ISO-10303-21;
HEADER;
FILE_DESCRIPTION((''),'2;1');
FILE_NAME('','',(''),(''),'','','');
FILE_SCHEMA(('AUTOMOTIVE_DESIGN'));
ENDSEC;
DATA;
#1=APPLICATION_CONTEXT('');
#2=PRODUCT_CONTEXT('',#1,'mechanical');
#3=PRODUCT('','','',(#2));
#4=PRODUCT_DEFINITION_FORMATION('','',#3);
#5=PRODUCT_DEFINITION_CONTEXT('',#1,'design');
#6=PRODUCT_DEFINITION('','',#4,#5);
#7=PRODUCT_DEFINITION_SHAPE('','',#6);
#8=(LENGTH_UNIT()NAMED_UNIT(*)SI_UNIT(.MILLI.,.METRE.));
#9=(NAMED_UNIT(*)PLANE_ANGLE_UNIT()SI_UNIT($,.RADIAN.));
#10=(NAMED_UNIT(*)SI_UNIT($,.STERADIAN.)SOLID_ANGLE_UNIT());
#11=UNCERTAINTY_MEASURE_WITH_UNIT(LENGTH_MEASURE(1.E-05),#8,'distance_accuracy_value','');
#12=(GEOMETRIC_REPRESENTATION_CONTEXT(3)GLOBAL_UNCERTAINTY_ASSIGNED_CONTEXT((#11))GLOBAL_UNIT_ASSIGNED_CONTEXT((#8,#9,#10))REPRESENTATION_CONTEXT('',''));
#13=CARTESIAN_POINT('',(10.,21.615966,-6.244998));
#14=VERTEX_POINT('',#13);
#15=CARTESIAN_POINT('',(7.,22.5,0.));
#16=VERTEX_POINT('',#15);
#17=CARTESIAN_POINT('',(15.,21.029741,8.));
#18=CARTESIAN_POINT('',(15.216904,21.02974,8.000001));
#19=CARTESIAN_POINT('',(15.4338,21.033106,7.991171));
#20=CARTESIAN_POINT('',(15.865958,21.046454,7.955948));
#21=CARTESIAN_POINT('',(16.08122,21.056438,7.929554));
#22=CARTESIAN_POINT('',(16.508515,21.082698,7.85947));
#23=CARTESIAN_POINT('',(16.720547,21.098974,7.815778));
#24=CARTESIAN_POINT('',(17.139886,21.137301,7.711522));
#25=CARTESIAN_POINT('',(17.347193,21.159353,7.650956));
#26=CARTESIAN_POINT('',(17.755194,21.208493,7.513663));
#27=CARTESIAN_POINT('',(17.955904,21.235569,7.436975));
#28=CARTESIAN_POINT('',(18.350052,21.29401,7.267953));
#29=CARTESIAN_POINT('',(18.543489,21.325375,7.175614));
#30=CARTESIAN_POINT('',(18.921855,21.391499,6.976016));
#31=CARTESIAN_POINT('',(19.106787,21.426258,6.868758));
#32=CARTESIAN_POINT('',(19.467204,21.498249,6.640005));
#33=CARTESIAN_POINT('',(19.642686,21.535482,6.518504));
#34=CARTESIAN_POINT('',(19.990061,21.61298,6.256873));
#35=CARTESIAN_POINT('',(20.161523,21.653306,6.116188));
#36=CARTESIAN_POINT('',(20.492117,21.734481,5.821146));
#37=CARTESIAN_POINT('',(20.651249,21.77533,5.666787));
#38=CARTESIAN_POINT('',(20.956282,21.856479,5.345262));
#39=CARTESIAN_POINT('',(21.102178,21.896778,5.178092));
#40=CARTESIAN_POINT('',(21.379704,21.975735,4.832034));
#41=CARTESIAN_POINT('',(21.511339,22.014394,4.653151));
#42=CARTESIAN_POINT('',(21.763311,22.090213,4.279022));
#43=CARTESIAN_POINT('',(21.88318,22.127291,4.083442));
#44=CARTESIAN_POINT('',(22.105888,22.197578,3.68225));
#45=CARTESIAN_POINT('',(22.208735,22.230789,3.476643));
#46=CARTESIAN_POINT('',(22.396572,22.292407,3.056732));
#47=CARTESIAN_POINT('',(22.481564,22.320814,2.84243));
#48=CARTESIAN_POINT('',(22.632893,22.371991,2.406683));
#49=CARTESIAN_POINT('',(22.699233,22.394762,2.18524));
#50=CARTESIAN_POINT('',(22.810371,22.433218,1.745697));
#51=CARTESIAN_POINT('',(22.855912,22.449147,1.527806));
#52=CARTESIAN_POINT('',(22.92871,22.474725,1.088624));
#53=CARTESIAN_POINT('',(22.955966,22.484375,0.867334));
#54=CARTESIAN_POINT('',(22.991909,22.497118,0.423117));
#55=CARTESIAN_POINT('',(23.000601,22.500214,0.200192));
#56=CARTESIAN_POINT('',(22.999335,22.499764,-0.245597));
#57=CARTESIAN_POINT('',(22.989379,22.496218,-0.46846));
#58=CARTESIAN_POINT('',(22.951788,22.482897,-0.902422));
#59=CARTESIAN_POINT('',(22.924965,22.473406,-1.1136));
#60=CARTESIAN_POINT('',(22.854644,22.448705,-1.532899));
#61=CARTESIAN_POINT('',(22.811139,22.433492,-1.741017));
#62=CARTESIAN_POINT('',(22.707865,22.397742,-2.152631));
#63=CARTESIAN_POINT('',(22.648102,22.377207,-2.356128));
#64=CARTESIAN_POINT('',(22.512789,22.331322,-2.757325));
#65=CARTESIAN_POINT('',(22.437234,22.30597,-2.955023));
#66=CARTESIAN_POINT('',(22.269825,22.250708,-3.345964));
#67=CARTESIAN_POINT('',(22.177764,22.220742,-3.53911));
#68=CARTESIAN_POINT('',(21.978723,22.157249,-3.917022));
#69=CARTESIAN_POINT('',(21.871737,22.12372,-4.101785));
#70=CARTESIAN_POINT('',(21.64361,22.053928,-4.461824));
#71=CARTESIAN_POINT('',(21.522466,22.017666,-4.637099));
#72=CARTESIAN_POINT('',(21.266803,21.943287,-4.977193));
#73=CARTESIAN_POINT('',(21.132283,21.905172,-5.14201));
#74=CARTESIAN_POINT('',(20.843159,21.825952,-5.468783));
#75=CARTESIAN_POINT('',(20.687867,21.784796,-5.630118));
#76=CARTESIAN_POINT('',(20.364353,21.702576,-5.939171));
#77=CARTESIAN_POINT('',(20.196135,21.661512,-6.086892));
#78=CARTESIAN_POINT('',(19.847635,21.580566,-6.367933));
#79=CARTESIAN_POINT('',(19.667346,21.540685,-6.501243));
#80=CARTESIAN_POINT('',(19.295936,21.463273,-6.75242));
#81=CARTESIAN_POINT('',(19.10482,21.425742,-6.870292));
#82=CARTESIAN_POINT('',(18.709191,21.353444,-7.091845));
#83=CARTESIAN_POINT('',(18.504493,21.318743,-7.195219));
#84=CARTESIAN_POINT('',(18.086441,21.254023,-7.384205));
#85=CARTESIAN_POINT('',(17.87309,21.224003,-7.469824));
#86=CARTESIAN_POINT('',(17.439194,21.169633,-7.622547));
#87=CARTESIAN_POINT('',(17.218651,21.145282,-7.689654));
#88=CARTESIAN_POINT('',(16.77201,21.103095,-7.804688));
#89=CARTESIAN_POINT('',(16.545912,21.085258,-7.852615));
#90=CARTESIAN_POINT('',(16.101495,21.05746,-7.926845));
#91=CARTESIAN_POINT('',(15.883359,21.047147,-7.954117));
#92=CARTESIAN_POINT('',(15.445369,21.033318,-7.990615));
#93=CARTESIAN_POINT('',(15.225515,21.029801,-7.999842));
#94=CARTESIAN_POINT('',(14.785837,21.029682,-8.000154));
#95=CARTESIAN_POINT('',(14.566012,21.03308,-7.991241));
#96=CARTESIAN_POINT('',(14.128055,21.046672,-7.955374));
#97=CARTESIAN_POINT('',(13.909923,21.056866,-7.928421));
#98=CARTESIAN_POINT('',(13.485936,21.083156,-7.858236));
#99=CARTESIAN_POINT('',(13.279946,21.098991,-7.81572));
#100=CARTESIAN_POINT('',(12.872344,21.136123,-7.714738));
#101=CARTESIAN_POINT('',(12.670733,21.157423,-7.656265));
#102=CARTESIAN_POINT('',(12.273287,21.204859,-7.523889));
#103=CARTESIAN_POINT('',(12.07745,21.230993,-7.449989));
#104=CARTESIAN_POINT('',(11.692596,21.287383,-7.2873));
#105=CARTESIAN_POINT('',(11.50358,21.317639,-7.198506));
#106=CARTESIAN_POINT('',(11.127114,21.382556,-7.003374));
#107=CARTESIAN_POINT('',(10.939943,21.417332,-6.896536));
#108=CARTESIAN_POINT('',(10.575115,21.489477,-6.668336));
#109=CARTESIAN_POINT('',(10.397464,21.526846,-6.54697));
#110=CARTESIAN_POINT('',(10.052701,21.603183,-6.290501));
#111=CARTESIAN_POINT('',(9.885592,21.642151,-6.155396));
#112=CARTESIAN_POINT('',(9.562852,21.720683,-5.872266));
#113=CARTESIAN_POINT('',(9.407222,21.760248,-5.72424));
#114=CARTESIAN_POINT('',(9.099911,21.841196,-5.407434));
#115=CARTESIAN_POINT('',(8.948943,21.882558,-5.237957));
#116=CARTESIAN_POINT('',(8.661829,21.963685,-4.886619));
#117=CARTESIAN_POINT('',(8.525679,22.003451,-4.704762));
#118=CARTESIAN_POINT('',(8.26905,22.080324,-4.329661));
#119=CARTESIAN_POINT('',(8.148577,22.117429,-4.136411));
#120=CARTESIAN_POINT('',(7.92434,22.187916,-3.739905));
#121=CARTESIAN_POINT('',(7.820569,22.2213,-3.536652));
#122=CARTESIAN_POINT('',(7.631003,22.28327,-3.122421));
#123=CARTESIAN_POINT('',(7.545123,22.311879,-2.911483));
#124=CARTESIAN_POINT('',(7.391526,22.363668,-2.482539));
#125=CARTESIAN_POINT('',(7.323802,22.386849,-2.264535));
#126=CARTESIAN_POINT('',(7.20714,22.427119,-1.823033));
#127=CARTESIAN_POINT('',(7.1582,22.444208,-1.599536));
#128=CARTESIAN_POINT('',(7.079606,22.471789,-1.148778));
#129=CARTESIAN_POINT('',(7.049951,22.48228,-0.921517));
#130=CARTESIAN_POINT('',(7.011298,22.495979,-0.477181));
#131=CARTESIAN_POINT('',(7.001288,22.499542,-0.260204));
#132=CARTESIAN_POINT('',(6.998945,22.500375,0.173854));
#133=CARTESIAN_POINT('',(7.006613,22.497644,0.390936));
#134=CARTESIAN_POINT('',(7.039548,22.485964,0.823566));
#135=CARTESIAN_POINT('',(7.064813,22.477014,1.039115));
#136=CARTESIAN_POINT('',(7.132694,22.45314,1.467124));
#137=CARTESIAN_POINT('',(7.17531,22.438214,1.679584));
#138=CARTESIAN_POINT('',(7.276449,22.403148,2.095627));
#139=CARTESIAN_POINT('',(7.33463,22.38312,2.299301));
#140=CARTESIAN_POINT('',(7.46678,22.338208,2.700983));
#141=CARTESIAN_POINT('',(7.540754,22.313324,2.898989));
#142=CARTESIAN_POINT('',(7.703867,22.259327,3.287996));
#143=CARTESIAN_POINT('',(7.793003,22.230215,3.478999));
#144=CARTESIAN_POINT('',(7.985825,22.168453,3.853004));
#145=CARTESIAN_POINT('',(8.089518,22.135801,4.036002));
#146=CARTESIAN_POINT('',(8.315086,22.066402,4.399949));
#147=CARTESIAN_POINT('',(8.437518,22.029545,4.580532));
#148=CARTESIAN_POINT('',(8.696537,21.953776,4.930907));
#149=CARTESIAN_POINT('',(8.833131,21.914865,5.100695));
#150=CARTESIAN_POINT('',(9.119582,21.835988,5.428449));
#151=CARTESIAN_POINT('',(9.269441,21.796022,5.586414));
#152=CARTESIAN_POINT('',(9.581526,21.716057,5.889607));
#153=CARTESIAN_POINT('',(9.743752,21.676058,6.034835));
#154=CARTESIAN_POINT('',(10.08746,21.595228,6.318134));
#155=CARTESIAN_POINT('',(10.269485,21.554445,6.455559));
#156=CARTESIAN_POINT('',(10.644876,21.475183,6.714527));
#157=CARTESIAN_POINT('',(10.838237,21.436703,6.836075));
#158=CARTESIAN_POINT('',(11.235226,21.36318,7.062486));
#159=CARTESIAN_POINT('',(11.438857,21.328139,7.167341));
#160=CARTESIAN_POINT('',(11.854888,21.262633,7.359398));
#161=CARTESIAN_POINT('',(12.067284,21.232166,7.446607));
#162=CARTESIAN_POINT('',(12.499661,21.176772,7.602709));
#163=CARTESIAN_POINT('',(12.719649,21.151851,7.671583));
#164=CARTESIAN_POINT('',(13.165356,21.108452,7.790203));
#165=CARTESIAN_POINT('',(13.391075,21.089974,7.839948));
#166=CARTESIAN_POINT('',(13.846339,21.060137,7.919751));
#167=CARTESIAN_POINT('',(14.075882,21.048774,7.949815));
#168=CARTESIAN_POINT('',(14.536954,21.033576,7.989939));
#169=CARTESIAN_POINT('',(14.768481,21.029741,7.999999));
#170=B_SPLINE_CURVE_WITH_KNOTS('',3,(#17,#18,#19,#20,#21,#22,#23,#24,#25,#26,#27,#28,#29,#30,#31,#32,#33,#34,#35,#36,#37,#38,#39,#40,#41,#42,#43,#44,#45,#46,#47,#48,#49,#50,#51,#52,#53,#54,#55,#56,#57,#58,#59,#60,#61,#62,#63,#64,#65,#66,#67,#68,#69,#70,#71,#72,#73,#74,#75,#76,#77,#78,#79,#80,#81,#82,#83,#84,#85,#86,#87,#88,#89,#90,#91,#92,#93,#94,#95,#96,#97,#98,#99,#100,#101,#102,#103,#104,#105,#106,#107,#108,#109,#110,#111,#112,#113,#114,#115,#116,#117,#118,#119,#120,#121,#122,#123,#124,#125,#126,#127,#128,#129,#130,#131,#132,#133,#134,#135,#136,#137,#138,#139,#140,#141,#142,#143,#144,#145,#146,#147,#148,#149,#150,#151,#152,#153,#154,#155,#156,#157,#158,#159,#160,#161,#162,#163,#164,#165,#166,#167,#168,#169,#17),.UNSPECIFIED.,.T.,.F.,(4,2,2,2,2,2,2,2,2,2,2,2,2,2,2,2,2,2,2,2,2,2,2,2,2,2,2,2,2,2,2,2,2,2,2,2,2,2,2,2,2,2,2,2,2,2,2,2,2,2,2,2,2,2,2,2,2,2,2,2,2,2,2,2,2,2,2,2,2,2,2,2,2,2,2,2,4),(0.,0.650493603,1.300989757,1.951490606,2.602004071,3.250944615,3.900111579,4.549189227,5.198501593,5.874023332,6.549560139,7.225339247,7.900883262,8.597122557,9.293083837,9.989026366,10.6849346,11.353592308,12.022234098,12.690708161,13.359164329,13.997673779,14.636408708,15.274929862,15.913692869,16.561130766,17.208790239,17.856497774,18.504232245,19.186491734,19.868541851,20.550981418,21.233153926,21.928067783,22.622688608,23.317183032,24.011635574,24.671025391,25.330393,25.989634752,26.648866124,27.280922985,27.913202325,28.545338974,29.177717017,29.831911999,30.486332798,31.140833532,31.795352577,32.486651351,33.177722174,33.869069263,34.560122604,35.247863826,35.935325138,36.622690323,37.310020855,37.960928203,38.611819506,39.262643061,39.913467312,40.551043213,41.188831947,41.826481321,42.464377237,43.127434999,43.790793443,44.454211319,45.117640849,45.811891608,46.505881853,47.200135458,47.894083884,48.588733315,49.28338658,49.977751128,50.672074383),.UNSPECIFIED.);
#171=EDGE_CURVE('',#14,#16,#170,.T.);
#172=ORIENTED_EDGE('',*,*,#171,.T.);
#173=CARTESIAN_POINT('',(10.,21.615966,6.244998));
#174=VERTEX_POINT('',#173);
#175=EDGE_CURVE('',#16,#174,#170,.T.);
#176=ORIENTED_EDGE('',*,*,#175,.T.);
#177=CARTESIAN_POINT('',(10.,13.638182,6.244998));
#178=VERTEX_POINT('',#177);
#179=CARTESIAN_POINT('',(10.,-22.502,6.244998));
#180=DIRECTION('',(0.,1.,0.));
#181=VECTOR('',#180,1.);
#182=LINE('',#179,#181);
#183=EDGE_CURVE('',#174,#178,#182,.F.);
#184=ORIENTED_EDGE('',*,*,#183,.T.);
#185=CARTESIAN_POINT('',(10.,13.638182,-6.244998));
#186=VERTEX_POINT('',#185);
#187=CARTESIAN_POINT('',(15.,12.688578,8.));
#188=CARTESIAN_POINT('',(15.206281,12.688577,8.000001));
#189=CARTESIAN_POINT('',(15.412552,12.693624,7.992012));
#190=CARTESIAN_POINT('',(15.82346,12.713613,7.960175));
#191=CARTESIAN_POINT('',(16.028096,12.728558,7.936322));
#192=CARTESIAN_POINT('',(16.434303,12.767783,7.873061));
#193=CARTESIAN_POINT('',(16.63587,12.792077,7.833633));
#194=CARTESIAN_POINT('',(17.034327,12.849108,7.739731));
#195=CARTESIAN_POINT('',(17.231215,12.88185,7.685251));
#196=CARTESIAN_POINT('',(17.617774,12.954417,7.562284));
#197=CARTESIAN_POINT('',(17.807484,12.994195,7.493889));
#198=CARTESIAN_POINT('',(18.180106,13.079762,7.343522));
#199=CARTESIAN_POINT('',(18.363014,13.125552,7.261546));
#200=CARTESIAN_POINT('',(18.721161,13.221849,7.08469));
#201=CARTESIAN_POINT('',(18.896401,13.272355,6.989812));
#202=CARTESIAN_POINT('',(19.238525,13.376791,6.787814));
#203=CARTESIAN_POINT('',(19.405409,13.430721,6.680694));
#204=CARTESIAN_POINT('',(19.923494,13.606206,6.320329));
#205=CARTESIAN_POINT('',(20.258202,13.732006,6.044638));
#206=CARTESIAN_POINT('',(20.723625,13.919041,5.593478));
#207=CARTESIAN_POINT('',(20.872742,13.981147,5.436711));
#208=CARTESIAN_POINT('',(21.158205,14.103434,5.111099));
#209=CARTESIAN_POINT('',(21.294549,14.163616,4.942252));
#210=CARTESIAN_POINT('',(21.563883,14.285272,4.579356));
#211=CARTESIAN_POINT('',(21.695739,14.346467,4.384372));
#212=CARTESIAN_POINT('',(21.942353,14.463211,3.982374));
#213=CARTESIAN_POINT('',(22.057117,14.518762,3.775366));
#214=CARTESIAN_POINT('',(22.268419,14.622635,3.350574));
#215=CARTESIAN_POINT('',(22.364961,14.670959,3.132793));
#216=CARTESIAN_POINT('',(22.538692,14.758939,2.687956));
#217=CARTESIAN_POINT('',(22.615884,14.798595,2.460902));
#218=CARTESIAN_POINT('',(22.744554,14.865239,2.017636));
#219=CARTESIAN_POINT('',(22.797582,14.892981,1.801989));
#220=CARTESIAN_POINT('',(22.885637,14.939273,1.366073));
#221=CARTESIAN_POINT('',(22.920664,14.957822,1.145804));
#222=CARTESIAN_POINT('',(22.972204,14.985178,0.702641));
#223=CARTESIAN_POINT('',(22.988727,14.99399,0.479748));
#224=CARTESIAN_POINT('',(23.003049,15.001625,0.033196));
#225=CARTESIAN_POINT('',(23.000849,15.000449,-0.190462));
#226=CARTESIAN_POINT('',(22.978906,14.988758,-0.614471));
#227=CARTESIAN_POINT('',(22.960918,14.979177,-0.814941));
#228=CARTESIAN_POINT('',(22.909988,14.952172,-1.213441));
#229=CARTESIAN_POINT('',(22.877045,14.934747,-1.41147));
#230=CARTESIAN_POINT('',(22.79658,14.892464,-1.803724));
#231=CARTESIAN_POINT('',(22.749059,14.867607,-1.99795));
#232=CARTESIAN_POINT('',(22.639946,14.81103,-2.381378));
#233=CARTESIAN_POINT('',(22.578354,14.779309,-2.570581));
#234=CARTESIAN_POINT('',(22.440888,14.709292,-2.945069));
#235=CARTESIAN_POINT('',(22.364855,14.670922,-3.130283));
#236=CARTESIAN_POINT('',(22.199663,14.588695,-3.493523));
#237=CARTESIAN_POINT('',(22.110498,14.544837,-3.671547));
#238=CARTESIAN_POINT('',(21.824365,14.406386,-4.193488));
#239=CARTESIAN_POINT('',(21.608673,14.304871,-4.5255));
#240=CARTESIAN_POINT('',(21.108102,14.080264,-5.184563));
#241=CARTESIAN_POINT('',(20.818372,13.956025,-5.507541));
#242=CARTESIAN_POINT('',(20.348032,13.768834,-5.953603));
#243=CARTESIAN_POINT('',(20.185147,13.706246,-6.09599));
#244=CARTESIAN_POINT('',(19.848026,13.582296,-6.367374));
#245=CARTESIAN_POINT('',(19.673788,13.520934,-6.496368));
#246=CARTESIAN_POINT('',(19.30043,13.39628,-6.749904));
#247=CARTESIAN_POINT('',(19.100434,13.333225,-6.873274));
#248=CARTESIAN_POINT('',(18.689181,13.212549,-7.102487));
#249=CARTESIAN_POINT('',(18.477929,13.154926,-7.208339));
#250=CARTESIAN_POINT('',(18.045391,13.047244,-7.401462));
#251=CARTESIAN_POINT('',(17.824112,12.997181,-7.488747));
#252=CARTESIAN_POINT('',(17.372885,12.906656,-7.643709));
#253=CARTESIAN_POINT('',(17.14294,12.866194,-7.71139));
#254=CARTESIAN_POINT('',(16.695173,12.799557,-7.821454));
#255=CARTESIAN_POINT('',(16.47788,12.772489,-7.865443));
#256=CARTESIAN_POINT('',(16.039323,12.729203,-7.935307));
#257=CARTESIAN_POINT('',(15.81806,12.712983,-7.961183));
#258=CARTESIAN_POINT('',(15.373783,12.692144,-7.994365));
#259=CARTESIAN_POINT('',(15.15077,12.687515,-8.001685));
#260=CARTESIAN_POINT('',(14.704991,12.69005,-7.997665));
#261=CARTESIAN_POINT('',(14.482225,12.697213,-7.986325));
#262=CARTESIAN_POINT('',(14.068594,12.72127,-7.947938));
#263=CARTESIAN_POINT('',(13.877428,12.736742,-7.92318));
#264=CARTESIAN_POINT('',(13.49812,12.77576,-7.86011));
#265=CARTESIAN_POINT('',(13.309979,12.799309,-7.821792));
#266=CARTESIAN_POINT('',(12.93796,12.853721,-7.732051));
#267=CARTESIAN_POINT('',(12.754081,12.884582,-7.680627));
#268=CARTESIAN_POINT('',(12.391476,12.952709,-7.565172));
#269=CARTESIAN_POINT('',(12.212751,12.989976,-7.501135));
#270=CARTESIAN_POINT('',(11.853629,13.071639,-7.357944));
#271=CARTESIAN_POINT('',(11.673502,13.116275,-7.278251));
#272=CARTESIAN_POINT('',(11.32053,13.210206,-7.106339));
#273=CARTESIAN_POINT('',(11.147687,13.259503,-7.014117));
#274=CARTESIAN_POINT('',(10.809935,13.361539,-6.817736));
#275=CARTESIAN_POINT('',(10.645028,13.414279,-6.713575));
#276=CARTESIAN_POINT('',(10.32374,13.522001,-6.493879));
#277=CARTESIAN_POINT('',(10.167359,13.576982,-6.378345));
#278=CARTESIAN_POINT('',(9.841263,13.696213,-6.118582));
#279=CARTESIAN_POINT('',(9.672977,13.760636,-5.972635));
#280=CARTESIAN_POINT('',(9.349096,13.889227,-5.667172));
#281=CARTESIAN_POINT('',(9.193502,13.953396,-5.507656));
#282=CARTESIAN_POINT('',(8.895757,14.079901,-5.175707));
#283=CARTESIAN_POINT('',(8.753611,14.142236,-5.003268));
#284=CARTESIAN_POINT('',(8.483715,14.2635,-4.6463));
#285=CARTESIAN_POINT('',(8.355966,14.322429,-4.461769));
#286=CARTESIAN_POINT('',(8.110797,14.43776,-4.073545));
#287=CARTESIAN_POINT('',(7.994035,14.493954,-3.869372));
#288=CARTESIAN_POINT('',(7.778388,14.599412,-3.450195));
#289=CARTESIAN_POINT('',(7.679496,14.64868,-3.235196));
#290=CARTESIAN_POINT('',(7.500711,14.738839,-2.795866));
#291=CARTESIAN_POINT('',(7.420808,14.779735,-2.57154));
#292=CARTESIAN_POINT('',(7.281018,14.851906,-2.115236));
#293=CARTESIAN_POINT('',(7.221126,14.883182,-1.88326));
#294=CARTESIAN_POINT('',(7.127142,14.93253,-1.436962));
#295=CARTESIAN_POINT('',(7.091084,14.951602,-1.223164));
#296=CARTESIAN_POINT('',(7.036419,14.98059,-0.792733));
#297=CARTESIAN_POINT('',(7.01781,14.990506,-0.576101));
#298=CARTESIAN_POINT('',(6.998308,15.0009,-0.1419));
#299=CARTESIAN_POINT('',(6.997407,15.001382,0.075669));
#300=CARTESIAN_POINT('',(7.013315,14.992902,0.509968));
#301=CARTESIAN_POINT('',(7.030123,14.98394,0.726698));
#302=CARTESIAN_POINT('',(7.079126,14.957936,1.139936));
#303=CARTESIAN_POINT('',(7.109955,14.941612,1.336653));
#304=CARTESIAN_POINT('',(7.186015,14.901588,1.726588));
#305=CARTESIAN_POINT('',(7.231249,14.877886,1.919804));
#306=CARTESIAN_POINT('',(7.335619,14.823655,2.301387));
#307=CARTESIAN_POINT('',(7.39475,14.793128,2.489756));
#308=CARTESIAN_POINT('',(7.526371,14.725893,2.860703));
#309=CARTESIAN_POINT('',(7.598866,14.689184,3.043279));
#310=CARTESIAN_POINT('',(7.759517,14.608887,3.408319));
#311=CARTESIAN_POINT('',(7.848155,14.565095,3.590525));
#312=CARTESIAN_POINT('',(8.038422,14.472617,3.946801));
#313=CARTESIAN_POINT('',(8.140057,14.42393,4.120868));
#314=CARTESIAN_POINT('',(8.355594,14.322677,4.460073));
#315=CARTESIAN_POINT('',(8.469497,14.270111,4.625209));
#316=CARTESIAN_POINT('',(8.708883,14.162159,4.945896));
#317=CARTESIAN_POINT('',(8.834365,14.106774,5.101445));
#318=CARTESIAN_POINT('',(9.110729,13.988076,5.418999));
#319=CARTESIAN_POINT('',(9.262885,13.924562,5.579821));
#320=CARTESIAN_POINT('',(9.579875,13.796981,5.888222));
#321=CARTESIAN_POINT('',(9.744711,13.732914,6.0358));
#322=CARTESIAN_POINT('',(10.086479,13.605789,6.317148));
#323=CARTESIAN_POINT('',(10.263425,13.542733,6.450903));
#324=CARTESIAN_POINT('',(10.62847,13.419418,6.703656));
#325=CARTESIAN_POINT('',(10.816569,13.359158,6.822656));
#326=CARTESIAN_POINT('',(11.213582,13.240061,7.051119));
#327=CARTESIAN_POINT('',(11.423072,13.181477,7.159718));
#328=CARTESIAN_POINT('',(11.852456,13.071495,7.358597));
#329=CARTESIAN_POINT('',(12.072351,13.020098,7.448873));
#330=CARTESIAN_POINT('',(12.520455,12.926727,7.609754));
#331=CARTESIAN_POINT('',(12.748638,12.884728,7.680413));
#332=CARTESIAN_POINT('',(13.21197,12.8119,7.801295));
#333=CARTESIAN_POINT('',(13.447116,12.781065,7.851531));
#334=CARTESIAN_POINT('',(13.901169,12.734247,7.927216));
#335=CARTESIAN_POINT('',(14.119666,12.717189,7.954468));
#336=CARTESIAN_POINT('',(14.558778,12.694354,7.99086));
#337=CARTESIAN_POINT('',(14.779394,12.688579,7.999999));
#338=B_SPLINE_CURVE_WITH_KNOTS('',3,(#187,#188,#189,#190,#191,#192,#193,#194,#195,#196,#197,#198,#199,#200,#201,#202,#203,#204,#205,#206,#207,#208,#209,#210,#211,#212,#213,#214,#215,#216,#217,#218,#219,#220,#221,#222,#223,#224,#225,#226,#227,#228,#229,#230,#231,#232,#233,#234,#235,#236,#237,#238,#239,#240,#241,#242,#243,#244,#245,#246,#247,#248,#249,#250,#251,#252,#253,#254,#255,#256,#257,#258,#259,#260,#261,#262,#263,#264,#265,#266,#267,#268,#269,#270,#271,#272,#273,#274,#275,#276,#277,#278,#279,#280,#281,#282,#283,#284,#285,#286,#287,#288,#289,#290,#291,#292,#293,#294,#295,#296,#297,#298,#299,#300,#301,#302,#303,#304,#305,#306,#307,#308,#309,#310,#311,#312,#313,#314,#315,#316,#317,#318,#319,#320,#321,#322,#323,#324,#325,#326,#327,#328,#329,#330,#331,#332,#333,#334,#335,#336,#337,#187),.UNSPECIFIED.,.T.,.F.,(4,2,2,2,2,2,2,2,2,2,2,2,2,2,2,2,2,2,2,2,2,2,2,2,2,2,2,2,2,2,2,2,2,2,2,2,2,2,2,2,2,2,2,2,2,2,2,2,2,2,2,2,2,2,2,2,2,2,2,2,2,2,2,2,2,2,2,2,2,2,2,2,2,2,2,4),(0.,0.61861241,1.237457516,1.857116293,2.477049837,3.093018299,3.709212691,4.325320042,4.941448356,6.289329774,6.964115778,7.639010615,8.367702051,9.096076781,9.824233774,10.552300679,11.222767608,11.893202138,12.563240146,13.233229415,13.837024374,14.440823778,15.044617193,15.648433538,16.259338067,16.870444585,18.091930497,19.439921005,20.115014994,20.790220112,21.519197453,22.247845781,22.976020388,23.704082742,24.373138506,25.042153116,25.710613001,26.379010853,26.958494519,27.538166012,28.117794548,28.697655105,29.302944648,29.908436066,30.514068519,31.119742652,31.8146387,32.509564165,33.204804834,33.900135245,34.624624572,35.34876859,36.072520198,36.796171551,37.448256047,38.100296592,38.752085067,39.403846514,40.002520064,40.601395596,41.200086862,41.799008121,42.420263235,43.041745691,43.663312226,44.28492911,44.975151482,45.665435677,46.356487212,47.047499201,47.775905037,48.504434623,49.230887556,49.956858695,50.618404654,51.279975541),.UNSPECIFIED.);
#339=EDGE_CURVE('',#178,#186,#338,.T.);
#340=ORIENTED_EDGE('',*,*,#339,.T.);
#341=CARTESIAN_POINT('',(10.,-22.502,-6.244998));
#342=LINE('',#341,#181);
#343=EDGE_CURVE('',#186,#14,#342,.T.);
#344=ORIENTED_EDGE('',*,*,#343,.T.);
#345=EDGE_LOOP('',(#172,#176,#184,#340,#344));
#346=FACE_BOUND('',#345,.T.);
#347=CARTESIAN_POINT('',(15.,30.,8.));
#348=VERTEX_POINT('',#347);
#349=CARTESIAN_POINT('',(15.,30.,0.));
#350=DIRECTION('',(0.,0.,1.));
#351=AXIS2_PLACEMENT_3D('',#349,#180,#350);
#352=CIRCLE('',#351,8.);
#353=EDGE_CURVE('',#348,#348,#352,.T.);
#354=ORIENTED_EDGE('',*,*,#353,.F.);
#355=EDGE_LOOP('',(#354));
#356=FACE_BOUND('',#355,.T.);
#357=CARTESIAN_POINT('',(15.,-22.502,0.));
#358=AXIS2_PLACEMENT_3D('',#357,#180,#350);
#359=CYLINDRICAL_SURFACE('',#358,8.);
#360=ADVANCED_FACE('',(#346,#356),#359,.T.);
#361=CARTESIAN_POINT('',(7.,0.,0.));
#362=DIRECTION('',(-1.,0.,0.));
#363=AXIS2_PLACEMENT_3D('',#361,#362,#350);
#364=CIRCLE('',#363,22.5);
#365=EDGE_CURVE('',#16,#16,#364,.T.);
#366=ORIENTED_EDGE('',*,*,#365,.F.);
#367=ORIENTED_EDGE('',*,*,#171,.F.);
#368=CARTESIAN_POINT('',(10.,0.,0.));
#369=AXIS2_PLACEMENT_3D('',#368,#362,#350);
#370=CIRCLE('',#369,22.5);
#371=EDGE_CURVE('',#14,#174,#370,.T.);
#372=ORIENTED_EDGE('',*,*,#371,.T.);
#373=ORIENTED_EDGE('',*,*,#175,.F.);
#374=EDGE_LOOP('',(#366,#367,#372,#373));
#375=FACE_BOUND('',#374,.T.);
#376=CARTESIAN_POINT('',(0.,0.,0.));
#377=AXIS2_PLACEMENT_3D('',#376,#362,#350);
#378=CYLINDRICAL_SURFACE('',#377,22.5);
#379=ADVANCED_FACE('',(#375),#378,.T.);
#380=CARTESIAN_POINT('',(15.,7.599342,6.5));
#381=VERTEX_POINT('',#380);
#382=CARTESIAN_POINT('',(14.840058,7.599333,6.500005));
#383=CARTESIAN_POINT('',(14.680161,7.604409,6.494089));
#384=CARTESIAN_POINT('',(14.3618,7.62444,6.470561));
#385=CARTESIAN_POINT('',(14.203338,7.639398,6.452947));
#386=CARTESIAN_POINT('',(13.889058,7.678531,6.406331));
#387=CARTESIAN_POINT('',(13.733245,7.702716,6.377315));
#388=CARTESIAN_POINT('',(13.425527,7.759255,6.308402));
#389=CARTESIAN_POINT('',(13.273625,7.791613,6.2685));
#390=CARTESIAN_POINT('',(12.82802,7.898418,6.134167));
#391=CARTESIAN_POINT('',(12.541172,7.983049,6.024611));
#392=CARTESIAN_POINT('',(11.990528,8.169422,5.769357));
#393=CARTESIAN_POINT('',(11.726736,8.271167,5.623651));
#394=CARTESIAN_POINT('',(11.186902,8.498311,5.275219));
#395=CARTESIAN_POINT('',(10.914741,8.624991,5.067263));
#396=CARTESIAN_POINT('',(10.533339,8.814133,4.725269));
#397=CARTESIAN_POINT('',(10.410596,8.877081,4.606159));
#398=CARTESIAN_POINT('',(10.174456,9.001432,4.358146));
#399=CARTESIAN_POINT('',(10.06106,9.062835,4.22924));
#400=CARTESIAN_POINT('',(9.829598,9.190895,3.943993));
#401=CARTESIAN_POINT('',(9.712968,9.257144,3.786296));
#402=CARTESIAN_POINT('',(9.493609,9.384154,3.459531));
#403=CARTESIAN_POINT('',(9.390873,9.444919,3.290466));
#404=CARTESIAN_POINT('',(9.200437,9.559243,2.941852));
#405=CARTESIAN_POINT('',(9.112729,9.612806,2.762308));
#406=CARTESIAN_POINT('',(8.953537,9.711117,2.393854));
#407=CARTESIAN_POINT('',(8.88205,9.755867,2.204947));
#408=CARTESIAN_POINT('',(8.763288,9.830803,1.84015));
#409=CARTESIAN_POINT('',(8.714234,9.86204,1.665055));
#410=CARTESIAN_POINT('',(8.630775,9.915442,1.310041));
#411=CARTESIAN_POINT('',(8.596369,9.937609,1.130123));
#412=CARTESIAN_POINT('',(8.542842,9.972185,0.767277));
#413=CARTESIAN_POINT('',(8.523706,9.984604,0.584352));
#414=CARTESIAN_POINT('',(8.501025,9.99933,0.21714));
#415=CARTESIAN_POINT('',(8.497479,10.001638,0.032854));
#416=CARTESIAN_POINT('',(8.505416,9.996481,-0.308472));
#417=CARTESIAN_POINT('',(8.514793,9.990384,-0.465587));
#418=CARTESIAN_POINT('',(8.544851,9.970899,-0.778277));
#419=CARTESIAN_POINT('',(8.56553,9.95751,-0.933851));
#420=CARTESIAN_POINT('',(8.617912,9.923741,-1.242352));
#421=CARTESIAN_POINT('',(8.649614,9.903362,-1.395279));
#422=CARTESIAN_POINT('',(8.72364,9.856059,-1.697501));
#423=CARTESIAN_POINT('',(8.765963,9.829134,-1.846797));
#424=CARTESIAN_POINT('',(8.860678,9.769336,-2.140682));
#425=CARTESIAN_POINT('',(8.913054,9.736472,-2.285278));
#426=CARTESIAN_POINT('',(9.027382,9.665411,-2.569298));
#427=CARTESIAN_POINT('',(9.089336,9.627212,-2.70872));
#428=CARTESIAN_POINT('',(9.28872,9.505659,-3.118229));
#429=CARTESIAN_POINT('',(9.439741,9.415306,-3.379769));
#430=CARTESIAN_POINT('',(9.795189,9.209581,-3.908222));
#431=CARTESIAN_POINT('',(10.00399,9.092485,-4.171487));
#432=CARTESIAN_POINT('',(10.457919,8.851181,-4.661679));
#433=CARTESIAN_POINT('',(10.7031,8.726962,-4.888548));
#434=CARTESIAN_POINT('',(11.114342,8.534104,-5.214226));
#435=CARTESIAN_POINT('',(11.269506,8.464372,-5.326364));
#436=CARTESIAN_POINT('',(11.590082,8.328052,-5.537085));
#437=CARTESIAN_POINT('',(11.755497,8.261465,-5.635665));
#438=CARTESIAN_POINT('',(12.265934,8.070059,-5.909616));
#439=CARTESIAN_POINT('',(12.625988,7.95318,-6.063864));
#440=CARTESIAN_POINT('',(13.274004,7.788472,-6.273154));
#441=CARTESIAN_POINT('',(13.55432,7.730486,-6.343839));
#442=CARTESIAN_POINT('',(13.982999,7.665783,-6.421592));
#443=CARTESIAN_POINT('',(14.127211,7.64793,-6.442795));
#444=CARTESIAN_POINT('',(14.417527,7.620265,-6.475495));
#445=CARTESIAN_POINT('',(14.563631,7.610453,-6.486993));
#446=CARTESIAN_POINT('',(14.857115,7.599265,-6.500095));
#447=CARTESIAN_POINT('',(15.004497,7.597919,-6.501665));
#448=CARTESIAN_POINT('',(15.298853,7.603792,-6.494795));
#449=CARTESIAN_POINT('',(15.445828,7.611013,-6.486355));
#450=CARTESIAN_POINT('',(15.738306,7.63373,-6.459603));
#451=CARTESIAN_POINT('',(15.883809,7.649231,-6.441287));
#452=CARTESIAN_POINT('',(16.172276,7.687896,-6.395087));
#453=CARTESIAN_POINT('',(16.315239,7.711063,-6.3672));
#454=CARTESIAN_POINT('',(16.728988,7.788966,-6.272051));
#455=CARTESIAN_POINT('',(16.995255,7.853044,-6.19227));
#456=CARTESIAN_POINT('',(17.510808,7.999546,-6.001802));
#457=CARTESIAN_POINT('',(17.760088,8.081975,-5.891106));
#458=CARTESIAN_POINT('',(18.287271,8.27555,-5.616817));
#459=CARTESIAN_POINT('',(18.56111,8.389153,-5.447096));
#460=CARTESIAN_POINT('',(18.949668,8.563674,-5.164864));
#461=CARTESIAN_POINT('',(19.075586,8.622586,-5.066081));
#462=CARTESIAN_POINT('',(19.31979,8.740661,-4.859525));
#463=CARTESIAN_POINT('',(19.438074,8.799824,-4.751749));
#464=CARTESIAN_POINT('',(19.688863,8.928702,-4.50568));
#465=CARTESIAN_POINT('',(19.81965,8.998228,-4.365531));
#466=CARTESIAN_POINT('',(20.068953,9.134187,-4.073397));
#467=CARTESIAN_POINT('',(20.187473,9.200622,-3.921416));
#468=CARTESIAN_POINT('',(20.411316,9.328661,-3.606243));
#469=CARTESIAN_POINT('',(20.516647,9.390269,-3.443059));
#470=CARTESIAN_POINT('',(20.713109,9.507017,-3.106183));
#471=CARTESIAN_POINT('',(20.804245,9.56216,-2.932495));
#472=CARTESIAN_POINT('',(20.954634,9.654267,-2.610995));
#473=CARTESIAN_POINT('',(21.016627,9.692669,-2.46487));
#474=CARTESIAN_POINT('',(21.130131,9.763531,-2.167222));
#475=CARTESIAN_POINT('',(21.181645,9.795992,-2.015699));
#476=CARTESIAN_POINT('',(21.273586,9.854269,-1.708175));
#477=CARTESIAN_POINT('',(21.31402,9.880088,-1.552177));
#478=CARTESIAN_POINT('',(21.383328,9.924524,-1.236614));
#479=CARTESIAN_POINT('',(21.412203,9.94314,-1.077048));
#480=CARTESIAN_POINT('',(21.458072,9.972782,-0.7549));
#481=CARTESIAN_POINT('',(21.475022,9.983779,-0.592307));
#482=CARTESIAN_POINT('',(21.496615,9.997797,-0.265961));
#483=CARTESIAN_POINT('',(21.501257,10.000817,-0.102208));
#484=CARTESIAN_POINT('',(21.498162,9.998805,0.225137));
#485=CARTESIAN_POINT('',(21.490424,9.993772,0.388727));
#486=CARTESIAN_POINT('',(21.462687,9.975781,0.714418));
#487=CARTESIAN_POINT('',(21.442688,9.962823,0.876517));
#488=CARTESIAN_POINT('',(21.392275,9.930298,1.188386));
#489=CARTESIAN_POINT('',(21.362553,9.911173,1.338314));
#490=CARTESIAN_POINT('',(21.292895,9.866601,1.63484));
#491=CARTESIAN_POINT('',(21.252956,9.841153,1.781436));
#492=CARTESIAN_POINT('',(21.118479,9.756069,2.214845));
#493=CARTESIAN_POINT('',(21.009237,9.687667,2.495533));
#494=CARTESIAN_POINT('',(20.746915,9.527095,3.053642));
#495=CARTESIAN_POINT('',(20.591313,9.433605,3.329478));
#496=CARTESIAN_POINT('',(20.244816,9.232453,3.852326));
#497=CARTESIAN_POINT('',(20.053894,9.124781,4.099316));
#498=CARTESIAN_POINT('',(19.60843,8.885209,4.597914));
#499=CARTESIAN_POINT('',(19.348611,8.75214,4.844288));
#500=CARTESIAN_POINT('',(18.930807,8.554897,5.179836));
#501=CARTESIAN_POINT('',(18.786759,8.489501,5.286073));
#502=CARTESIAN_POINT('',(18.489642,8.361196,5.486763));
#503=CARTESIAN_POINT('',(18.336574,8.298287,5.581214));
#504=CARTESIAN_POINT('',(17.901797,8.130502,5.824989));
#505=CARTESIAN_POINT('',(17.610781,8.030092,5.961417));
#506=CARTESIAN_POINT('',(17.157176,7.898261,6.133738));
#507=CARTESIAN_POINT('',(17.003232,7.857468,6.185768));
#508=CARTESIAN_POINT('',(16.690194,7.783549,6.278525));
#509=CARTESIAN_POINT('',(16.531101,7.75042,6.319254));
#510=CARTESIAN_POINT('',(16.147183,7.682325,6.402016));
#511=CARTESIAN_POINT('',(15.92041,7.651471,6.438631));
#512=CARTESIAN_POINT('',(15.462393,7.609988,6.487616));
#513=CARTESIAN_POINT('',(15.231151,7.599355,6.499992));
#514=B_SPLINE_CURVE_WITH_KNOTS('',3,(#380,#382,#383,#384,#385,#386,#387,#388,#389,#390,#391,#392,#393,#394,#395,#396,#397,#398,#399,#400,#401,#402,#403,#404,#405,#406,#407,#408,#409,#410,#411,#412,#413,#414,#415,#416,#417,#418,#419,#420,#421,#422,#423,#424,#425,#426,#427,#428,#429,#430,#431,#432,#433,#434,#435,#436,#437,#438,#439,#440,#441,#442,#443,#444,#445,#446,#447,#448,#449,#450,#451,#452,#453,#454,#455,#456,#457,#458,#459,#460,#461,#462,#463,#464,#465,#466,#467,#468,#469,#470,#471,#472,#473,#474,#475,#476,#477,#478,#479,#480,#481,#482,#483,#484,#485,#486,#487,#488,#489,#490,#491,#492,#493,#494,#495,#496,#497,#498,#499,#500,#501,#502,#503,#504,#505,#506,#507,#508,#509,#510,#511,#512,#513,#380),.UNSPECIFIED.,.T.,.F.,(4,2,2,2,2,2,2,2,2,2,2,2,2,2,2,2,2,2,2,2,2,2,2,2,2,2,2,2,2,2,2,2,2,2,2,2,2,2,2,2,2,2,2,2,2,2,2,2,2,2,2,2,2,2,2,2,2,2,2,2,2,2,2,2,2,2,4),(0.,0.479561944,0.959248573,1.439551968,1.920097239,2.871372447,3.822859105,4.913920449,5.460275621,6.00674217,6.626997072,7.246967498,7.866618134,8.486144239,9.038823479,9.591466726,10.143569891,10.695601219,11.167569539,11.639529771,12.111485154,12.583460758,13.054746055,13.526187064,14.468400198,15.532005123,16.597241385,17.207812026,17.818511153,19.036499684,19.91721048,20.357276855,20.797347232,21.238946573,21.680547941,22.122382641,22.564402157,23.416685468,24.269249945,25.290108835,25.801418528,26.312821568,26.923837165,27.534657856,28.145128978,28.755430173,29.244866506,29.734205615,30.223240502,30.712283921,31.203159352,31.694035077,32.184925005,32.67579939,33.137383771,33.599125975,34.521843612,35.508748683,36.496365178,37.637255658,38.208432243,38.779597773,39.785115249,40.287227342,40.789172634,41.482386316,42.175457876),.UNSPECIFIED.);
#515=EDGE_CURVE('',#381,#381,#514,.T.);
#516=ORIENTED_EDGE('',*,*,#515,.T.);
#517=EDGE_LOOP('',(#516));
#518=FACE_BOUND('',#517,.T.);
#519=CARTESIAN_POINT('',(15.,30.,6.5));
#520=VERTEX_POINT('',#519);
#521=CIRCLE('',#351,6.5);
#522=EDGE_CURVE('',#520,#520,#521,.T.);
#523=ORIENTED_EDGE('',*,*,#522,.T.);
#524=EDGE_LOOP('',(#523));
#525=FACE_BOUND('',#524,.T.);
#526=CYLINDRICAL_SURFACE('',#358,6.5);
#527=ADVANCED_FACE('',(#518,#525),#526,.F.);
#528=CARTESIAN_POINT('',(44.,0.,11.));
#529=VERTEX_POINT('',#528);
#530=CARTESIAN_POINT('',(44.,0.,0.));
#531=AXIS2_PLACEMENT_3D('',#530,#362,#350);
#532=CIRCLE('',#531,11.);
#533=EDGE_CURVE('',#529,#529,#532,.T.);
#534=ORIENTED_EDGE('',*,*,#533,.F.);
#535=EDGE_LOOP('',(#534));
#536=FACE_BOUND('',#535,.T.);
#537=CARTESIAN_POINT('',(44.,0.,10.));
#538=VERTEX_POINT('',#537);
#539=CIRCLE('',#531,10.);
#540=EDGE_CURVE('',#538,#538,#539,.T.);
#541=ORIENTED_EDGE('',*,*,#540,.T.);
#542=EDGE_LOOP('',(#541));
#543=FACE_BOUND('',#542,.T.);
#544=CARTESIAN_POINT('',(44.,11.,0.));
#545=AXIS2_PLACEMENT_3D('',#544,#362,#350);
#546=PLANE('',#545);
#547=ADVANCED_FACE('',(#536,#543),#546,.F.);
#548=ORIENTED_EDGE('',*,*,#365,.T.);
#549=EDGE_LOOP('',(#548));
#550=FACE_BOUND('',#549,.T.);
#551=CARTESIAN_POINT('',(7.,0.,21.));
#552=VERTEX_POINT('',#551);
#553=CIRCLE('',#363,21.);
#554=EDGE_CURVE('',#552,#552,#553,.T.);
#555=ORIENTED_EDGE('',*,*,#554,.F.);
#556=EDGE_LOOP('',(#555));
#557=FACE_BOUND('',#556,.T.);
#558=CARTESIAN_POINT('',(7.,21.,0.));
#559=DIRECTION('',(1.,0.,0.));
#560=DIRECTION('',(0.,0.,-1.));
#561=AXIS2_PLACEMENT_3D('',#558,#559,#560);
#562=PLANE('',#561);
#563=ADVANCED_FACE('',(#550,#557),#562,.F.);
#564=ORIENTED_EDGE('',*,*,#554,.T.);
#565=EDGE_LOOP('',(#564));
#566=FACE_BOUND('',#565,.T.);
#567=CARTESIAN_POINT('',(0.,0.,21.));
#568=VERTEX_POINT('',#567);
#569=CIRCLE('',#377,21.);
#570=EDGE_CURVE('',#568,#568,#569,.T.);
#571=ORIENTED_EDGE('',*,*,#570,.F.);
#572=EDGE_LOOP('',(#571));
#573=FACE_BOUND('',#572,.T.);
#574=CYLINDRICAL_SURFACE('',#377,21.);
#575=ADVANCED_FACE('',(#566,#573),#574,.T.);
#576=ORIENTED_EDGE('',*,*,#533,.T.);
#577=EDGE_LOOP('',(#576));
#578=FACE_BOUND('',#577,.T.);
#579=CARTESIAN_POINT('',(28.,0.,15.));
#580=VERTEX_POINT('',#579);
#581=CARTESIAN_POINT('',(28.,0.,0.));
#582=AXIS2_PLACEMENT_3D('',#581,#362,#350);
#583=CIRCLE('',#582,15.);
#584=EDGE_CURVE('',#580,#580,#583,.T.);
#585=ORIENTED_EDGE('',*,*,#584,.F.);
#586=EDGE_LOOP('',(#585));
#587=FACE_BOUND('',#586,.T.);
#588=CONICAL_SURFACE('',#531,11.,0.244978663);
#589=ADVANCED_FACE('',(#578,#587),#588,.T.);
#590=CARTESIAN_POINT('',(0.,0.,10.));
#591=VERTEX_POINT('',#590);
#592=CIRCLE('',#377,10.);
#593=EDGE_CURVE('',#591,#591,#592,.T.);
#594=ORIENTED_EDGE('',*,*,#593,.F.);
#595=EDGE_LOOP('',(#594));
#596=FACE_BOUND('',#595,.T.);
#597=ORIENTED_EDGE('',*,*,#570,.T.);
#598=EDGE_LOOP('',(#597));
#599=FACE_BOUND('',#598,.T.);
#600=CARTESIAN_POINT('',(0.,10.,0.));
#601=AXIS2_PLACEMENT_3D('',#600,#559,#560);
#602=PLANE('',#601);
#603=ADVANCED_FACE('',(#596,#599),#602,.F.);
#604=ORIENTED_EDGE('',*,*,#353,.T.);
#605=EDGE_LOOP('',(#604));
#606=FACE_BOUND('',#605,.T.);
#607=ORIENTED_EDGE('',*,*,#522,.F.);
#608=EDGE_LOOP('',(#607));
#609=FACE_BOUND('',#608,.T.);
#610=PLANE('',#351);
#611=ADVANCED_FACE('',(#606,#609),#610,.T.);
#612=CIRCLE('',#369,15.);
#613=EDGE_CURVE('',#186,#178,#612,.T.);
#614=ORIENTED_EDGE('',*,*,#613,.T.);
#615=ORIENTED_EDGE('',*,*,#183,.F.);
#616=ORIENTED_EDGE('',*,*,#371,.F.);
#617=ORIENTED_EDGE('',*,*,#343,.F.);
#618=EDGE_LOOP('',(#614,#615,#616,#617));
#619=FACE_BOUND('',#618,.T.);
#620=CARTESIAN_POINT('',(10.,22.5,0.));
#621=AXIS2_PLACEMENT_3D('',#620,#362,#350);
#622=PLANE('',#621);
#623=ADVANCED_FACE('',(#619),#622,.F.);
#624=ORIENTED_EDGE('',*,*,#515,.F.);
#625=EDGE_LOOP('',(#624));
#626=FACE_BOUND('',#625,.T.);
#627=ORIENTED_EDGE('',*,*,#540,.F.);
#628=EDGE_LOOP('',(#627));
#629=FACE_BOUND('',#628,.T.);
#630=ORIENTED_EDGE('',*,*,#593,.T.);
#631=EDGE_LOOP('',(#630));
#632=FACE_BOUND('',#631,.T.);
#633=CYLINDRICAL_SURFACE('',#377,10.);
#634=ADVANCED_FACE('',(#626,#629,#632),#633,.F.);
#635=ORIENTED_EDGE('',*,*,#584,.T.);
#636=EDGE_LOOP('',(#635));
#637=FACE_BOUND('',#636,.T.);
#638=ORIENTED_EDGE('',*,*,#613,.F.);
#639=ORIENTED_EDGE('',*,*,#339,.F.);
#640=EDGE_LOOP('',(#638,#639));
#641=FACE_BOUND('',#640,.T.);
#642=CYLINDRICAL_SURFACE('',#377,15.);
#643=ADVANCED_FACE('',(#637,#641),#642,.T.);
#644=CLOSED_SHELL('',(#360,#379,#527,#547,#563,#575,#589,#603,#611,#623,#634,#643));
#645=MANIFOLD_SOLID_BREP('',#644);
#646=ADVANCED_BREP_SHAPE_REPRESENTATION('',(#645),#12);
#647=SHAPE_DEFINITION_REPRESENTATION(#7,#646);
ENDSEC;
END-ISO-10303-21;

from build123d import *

# Parameters (mm, degrees)
BOSS_EXTRU_1_REACH           = 74.101
ESQUISSE2_R                  = 8
ENL_V_MAT_EXTRU_1_REACH      = 74.101
ENL_V_MAT_EXTRU_1_END_RADIUS = 10
ESQUISSE3_R                  = 6.5


with BuildPart() as part:
    # Esquisse1 → Révolution1 (revolve)
    with BuildSketch(Plane.XY, mode=Mode.PRIVATE) as r_volution1_sk:
        Polygon((44, 10), (0, 10), (0, 21), (7, 21), (7, 22.5), (10, 22.5), (10, 15), (28, 15), (44, 11), align=None)
    revolve(r_volution1_sk.sketch.rotate(Axis((0, 0, 0), (1, 0, 0)), 90), axis=Axis((0, 0, 0), (1, 0, 0)))

    # Esquisse2 → Boss.-Extru.1 (add, up to next)
    with BuildSketch(Plane(origin=(0, 30, 0), x_dir=(1, 0, 0), z_dir=(0, 1, 0)), mode=Mode.PRIVATE) as boss_extru_1_sk1:
        with Locations(Location((15, 0, 0), (0, 0, 270))):
            Circle(ESQUISSE2_R)
    boss_extru_1_tool1 = extrude(boss_extru_1_sk1.sketch, amount=-BOSS_EXTRU_1_REACH, mode=Mode.PRIVATE) - part.part
    add(boss_extru_1_tool1.solids().sort_by_distance((15, 30, 0))[0])

    # Enlèv. mat.-Extru.1: up to this cylinder (the profile starts outside it)
    enl_v_mat_extru_1_end = Plane(origin=(15, 0, 0), z_dir=(-1, 0, 0)) * Cylinder(ENL_V_MAT_EXTRU_1_END_RADIUS, 169.202, mode=Mode.PRIVATE)
    # Esquisse3 → Enlèv. mat.-Extru.1 (cut, up to the surface)
    with BuildSketch(Plane(origin=(0, 30, 0), x_dir=(1, 0, 0), z_dir=(0, 1, 0)), mode=Mode.PRIVATE) as enl_v_mat_extru_1_sk1:
        with Locations(Location((15, 0, 0), (0, 0, 270))):
            Circle(ESQUISSE3_R)
    enl_v_mat_extru_1_tool1 = extrude(enl_v_mat_extru_1_sk1.sketch, amount=-ENL_V_MAT_EXTRU_1_REACH, mode=Mode.PRIVATE) - enl_v_mat_extru_1_end
    add(enl_v_mat_extru_1_tool1.solids().sort_by_distance((15, 30, 0))[0], mode=Mode.SUBTRACT)


solid = part.part
